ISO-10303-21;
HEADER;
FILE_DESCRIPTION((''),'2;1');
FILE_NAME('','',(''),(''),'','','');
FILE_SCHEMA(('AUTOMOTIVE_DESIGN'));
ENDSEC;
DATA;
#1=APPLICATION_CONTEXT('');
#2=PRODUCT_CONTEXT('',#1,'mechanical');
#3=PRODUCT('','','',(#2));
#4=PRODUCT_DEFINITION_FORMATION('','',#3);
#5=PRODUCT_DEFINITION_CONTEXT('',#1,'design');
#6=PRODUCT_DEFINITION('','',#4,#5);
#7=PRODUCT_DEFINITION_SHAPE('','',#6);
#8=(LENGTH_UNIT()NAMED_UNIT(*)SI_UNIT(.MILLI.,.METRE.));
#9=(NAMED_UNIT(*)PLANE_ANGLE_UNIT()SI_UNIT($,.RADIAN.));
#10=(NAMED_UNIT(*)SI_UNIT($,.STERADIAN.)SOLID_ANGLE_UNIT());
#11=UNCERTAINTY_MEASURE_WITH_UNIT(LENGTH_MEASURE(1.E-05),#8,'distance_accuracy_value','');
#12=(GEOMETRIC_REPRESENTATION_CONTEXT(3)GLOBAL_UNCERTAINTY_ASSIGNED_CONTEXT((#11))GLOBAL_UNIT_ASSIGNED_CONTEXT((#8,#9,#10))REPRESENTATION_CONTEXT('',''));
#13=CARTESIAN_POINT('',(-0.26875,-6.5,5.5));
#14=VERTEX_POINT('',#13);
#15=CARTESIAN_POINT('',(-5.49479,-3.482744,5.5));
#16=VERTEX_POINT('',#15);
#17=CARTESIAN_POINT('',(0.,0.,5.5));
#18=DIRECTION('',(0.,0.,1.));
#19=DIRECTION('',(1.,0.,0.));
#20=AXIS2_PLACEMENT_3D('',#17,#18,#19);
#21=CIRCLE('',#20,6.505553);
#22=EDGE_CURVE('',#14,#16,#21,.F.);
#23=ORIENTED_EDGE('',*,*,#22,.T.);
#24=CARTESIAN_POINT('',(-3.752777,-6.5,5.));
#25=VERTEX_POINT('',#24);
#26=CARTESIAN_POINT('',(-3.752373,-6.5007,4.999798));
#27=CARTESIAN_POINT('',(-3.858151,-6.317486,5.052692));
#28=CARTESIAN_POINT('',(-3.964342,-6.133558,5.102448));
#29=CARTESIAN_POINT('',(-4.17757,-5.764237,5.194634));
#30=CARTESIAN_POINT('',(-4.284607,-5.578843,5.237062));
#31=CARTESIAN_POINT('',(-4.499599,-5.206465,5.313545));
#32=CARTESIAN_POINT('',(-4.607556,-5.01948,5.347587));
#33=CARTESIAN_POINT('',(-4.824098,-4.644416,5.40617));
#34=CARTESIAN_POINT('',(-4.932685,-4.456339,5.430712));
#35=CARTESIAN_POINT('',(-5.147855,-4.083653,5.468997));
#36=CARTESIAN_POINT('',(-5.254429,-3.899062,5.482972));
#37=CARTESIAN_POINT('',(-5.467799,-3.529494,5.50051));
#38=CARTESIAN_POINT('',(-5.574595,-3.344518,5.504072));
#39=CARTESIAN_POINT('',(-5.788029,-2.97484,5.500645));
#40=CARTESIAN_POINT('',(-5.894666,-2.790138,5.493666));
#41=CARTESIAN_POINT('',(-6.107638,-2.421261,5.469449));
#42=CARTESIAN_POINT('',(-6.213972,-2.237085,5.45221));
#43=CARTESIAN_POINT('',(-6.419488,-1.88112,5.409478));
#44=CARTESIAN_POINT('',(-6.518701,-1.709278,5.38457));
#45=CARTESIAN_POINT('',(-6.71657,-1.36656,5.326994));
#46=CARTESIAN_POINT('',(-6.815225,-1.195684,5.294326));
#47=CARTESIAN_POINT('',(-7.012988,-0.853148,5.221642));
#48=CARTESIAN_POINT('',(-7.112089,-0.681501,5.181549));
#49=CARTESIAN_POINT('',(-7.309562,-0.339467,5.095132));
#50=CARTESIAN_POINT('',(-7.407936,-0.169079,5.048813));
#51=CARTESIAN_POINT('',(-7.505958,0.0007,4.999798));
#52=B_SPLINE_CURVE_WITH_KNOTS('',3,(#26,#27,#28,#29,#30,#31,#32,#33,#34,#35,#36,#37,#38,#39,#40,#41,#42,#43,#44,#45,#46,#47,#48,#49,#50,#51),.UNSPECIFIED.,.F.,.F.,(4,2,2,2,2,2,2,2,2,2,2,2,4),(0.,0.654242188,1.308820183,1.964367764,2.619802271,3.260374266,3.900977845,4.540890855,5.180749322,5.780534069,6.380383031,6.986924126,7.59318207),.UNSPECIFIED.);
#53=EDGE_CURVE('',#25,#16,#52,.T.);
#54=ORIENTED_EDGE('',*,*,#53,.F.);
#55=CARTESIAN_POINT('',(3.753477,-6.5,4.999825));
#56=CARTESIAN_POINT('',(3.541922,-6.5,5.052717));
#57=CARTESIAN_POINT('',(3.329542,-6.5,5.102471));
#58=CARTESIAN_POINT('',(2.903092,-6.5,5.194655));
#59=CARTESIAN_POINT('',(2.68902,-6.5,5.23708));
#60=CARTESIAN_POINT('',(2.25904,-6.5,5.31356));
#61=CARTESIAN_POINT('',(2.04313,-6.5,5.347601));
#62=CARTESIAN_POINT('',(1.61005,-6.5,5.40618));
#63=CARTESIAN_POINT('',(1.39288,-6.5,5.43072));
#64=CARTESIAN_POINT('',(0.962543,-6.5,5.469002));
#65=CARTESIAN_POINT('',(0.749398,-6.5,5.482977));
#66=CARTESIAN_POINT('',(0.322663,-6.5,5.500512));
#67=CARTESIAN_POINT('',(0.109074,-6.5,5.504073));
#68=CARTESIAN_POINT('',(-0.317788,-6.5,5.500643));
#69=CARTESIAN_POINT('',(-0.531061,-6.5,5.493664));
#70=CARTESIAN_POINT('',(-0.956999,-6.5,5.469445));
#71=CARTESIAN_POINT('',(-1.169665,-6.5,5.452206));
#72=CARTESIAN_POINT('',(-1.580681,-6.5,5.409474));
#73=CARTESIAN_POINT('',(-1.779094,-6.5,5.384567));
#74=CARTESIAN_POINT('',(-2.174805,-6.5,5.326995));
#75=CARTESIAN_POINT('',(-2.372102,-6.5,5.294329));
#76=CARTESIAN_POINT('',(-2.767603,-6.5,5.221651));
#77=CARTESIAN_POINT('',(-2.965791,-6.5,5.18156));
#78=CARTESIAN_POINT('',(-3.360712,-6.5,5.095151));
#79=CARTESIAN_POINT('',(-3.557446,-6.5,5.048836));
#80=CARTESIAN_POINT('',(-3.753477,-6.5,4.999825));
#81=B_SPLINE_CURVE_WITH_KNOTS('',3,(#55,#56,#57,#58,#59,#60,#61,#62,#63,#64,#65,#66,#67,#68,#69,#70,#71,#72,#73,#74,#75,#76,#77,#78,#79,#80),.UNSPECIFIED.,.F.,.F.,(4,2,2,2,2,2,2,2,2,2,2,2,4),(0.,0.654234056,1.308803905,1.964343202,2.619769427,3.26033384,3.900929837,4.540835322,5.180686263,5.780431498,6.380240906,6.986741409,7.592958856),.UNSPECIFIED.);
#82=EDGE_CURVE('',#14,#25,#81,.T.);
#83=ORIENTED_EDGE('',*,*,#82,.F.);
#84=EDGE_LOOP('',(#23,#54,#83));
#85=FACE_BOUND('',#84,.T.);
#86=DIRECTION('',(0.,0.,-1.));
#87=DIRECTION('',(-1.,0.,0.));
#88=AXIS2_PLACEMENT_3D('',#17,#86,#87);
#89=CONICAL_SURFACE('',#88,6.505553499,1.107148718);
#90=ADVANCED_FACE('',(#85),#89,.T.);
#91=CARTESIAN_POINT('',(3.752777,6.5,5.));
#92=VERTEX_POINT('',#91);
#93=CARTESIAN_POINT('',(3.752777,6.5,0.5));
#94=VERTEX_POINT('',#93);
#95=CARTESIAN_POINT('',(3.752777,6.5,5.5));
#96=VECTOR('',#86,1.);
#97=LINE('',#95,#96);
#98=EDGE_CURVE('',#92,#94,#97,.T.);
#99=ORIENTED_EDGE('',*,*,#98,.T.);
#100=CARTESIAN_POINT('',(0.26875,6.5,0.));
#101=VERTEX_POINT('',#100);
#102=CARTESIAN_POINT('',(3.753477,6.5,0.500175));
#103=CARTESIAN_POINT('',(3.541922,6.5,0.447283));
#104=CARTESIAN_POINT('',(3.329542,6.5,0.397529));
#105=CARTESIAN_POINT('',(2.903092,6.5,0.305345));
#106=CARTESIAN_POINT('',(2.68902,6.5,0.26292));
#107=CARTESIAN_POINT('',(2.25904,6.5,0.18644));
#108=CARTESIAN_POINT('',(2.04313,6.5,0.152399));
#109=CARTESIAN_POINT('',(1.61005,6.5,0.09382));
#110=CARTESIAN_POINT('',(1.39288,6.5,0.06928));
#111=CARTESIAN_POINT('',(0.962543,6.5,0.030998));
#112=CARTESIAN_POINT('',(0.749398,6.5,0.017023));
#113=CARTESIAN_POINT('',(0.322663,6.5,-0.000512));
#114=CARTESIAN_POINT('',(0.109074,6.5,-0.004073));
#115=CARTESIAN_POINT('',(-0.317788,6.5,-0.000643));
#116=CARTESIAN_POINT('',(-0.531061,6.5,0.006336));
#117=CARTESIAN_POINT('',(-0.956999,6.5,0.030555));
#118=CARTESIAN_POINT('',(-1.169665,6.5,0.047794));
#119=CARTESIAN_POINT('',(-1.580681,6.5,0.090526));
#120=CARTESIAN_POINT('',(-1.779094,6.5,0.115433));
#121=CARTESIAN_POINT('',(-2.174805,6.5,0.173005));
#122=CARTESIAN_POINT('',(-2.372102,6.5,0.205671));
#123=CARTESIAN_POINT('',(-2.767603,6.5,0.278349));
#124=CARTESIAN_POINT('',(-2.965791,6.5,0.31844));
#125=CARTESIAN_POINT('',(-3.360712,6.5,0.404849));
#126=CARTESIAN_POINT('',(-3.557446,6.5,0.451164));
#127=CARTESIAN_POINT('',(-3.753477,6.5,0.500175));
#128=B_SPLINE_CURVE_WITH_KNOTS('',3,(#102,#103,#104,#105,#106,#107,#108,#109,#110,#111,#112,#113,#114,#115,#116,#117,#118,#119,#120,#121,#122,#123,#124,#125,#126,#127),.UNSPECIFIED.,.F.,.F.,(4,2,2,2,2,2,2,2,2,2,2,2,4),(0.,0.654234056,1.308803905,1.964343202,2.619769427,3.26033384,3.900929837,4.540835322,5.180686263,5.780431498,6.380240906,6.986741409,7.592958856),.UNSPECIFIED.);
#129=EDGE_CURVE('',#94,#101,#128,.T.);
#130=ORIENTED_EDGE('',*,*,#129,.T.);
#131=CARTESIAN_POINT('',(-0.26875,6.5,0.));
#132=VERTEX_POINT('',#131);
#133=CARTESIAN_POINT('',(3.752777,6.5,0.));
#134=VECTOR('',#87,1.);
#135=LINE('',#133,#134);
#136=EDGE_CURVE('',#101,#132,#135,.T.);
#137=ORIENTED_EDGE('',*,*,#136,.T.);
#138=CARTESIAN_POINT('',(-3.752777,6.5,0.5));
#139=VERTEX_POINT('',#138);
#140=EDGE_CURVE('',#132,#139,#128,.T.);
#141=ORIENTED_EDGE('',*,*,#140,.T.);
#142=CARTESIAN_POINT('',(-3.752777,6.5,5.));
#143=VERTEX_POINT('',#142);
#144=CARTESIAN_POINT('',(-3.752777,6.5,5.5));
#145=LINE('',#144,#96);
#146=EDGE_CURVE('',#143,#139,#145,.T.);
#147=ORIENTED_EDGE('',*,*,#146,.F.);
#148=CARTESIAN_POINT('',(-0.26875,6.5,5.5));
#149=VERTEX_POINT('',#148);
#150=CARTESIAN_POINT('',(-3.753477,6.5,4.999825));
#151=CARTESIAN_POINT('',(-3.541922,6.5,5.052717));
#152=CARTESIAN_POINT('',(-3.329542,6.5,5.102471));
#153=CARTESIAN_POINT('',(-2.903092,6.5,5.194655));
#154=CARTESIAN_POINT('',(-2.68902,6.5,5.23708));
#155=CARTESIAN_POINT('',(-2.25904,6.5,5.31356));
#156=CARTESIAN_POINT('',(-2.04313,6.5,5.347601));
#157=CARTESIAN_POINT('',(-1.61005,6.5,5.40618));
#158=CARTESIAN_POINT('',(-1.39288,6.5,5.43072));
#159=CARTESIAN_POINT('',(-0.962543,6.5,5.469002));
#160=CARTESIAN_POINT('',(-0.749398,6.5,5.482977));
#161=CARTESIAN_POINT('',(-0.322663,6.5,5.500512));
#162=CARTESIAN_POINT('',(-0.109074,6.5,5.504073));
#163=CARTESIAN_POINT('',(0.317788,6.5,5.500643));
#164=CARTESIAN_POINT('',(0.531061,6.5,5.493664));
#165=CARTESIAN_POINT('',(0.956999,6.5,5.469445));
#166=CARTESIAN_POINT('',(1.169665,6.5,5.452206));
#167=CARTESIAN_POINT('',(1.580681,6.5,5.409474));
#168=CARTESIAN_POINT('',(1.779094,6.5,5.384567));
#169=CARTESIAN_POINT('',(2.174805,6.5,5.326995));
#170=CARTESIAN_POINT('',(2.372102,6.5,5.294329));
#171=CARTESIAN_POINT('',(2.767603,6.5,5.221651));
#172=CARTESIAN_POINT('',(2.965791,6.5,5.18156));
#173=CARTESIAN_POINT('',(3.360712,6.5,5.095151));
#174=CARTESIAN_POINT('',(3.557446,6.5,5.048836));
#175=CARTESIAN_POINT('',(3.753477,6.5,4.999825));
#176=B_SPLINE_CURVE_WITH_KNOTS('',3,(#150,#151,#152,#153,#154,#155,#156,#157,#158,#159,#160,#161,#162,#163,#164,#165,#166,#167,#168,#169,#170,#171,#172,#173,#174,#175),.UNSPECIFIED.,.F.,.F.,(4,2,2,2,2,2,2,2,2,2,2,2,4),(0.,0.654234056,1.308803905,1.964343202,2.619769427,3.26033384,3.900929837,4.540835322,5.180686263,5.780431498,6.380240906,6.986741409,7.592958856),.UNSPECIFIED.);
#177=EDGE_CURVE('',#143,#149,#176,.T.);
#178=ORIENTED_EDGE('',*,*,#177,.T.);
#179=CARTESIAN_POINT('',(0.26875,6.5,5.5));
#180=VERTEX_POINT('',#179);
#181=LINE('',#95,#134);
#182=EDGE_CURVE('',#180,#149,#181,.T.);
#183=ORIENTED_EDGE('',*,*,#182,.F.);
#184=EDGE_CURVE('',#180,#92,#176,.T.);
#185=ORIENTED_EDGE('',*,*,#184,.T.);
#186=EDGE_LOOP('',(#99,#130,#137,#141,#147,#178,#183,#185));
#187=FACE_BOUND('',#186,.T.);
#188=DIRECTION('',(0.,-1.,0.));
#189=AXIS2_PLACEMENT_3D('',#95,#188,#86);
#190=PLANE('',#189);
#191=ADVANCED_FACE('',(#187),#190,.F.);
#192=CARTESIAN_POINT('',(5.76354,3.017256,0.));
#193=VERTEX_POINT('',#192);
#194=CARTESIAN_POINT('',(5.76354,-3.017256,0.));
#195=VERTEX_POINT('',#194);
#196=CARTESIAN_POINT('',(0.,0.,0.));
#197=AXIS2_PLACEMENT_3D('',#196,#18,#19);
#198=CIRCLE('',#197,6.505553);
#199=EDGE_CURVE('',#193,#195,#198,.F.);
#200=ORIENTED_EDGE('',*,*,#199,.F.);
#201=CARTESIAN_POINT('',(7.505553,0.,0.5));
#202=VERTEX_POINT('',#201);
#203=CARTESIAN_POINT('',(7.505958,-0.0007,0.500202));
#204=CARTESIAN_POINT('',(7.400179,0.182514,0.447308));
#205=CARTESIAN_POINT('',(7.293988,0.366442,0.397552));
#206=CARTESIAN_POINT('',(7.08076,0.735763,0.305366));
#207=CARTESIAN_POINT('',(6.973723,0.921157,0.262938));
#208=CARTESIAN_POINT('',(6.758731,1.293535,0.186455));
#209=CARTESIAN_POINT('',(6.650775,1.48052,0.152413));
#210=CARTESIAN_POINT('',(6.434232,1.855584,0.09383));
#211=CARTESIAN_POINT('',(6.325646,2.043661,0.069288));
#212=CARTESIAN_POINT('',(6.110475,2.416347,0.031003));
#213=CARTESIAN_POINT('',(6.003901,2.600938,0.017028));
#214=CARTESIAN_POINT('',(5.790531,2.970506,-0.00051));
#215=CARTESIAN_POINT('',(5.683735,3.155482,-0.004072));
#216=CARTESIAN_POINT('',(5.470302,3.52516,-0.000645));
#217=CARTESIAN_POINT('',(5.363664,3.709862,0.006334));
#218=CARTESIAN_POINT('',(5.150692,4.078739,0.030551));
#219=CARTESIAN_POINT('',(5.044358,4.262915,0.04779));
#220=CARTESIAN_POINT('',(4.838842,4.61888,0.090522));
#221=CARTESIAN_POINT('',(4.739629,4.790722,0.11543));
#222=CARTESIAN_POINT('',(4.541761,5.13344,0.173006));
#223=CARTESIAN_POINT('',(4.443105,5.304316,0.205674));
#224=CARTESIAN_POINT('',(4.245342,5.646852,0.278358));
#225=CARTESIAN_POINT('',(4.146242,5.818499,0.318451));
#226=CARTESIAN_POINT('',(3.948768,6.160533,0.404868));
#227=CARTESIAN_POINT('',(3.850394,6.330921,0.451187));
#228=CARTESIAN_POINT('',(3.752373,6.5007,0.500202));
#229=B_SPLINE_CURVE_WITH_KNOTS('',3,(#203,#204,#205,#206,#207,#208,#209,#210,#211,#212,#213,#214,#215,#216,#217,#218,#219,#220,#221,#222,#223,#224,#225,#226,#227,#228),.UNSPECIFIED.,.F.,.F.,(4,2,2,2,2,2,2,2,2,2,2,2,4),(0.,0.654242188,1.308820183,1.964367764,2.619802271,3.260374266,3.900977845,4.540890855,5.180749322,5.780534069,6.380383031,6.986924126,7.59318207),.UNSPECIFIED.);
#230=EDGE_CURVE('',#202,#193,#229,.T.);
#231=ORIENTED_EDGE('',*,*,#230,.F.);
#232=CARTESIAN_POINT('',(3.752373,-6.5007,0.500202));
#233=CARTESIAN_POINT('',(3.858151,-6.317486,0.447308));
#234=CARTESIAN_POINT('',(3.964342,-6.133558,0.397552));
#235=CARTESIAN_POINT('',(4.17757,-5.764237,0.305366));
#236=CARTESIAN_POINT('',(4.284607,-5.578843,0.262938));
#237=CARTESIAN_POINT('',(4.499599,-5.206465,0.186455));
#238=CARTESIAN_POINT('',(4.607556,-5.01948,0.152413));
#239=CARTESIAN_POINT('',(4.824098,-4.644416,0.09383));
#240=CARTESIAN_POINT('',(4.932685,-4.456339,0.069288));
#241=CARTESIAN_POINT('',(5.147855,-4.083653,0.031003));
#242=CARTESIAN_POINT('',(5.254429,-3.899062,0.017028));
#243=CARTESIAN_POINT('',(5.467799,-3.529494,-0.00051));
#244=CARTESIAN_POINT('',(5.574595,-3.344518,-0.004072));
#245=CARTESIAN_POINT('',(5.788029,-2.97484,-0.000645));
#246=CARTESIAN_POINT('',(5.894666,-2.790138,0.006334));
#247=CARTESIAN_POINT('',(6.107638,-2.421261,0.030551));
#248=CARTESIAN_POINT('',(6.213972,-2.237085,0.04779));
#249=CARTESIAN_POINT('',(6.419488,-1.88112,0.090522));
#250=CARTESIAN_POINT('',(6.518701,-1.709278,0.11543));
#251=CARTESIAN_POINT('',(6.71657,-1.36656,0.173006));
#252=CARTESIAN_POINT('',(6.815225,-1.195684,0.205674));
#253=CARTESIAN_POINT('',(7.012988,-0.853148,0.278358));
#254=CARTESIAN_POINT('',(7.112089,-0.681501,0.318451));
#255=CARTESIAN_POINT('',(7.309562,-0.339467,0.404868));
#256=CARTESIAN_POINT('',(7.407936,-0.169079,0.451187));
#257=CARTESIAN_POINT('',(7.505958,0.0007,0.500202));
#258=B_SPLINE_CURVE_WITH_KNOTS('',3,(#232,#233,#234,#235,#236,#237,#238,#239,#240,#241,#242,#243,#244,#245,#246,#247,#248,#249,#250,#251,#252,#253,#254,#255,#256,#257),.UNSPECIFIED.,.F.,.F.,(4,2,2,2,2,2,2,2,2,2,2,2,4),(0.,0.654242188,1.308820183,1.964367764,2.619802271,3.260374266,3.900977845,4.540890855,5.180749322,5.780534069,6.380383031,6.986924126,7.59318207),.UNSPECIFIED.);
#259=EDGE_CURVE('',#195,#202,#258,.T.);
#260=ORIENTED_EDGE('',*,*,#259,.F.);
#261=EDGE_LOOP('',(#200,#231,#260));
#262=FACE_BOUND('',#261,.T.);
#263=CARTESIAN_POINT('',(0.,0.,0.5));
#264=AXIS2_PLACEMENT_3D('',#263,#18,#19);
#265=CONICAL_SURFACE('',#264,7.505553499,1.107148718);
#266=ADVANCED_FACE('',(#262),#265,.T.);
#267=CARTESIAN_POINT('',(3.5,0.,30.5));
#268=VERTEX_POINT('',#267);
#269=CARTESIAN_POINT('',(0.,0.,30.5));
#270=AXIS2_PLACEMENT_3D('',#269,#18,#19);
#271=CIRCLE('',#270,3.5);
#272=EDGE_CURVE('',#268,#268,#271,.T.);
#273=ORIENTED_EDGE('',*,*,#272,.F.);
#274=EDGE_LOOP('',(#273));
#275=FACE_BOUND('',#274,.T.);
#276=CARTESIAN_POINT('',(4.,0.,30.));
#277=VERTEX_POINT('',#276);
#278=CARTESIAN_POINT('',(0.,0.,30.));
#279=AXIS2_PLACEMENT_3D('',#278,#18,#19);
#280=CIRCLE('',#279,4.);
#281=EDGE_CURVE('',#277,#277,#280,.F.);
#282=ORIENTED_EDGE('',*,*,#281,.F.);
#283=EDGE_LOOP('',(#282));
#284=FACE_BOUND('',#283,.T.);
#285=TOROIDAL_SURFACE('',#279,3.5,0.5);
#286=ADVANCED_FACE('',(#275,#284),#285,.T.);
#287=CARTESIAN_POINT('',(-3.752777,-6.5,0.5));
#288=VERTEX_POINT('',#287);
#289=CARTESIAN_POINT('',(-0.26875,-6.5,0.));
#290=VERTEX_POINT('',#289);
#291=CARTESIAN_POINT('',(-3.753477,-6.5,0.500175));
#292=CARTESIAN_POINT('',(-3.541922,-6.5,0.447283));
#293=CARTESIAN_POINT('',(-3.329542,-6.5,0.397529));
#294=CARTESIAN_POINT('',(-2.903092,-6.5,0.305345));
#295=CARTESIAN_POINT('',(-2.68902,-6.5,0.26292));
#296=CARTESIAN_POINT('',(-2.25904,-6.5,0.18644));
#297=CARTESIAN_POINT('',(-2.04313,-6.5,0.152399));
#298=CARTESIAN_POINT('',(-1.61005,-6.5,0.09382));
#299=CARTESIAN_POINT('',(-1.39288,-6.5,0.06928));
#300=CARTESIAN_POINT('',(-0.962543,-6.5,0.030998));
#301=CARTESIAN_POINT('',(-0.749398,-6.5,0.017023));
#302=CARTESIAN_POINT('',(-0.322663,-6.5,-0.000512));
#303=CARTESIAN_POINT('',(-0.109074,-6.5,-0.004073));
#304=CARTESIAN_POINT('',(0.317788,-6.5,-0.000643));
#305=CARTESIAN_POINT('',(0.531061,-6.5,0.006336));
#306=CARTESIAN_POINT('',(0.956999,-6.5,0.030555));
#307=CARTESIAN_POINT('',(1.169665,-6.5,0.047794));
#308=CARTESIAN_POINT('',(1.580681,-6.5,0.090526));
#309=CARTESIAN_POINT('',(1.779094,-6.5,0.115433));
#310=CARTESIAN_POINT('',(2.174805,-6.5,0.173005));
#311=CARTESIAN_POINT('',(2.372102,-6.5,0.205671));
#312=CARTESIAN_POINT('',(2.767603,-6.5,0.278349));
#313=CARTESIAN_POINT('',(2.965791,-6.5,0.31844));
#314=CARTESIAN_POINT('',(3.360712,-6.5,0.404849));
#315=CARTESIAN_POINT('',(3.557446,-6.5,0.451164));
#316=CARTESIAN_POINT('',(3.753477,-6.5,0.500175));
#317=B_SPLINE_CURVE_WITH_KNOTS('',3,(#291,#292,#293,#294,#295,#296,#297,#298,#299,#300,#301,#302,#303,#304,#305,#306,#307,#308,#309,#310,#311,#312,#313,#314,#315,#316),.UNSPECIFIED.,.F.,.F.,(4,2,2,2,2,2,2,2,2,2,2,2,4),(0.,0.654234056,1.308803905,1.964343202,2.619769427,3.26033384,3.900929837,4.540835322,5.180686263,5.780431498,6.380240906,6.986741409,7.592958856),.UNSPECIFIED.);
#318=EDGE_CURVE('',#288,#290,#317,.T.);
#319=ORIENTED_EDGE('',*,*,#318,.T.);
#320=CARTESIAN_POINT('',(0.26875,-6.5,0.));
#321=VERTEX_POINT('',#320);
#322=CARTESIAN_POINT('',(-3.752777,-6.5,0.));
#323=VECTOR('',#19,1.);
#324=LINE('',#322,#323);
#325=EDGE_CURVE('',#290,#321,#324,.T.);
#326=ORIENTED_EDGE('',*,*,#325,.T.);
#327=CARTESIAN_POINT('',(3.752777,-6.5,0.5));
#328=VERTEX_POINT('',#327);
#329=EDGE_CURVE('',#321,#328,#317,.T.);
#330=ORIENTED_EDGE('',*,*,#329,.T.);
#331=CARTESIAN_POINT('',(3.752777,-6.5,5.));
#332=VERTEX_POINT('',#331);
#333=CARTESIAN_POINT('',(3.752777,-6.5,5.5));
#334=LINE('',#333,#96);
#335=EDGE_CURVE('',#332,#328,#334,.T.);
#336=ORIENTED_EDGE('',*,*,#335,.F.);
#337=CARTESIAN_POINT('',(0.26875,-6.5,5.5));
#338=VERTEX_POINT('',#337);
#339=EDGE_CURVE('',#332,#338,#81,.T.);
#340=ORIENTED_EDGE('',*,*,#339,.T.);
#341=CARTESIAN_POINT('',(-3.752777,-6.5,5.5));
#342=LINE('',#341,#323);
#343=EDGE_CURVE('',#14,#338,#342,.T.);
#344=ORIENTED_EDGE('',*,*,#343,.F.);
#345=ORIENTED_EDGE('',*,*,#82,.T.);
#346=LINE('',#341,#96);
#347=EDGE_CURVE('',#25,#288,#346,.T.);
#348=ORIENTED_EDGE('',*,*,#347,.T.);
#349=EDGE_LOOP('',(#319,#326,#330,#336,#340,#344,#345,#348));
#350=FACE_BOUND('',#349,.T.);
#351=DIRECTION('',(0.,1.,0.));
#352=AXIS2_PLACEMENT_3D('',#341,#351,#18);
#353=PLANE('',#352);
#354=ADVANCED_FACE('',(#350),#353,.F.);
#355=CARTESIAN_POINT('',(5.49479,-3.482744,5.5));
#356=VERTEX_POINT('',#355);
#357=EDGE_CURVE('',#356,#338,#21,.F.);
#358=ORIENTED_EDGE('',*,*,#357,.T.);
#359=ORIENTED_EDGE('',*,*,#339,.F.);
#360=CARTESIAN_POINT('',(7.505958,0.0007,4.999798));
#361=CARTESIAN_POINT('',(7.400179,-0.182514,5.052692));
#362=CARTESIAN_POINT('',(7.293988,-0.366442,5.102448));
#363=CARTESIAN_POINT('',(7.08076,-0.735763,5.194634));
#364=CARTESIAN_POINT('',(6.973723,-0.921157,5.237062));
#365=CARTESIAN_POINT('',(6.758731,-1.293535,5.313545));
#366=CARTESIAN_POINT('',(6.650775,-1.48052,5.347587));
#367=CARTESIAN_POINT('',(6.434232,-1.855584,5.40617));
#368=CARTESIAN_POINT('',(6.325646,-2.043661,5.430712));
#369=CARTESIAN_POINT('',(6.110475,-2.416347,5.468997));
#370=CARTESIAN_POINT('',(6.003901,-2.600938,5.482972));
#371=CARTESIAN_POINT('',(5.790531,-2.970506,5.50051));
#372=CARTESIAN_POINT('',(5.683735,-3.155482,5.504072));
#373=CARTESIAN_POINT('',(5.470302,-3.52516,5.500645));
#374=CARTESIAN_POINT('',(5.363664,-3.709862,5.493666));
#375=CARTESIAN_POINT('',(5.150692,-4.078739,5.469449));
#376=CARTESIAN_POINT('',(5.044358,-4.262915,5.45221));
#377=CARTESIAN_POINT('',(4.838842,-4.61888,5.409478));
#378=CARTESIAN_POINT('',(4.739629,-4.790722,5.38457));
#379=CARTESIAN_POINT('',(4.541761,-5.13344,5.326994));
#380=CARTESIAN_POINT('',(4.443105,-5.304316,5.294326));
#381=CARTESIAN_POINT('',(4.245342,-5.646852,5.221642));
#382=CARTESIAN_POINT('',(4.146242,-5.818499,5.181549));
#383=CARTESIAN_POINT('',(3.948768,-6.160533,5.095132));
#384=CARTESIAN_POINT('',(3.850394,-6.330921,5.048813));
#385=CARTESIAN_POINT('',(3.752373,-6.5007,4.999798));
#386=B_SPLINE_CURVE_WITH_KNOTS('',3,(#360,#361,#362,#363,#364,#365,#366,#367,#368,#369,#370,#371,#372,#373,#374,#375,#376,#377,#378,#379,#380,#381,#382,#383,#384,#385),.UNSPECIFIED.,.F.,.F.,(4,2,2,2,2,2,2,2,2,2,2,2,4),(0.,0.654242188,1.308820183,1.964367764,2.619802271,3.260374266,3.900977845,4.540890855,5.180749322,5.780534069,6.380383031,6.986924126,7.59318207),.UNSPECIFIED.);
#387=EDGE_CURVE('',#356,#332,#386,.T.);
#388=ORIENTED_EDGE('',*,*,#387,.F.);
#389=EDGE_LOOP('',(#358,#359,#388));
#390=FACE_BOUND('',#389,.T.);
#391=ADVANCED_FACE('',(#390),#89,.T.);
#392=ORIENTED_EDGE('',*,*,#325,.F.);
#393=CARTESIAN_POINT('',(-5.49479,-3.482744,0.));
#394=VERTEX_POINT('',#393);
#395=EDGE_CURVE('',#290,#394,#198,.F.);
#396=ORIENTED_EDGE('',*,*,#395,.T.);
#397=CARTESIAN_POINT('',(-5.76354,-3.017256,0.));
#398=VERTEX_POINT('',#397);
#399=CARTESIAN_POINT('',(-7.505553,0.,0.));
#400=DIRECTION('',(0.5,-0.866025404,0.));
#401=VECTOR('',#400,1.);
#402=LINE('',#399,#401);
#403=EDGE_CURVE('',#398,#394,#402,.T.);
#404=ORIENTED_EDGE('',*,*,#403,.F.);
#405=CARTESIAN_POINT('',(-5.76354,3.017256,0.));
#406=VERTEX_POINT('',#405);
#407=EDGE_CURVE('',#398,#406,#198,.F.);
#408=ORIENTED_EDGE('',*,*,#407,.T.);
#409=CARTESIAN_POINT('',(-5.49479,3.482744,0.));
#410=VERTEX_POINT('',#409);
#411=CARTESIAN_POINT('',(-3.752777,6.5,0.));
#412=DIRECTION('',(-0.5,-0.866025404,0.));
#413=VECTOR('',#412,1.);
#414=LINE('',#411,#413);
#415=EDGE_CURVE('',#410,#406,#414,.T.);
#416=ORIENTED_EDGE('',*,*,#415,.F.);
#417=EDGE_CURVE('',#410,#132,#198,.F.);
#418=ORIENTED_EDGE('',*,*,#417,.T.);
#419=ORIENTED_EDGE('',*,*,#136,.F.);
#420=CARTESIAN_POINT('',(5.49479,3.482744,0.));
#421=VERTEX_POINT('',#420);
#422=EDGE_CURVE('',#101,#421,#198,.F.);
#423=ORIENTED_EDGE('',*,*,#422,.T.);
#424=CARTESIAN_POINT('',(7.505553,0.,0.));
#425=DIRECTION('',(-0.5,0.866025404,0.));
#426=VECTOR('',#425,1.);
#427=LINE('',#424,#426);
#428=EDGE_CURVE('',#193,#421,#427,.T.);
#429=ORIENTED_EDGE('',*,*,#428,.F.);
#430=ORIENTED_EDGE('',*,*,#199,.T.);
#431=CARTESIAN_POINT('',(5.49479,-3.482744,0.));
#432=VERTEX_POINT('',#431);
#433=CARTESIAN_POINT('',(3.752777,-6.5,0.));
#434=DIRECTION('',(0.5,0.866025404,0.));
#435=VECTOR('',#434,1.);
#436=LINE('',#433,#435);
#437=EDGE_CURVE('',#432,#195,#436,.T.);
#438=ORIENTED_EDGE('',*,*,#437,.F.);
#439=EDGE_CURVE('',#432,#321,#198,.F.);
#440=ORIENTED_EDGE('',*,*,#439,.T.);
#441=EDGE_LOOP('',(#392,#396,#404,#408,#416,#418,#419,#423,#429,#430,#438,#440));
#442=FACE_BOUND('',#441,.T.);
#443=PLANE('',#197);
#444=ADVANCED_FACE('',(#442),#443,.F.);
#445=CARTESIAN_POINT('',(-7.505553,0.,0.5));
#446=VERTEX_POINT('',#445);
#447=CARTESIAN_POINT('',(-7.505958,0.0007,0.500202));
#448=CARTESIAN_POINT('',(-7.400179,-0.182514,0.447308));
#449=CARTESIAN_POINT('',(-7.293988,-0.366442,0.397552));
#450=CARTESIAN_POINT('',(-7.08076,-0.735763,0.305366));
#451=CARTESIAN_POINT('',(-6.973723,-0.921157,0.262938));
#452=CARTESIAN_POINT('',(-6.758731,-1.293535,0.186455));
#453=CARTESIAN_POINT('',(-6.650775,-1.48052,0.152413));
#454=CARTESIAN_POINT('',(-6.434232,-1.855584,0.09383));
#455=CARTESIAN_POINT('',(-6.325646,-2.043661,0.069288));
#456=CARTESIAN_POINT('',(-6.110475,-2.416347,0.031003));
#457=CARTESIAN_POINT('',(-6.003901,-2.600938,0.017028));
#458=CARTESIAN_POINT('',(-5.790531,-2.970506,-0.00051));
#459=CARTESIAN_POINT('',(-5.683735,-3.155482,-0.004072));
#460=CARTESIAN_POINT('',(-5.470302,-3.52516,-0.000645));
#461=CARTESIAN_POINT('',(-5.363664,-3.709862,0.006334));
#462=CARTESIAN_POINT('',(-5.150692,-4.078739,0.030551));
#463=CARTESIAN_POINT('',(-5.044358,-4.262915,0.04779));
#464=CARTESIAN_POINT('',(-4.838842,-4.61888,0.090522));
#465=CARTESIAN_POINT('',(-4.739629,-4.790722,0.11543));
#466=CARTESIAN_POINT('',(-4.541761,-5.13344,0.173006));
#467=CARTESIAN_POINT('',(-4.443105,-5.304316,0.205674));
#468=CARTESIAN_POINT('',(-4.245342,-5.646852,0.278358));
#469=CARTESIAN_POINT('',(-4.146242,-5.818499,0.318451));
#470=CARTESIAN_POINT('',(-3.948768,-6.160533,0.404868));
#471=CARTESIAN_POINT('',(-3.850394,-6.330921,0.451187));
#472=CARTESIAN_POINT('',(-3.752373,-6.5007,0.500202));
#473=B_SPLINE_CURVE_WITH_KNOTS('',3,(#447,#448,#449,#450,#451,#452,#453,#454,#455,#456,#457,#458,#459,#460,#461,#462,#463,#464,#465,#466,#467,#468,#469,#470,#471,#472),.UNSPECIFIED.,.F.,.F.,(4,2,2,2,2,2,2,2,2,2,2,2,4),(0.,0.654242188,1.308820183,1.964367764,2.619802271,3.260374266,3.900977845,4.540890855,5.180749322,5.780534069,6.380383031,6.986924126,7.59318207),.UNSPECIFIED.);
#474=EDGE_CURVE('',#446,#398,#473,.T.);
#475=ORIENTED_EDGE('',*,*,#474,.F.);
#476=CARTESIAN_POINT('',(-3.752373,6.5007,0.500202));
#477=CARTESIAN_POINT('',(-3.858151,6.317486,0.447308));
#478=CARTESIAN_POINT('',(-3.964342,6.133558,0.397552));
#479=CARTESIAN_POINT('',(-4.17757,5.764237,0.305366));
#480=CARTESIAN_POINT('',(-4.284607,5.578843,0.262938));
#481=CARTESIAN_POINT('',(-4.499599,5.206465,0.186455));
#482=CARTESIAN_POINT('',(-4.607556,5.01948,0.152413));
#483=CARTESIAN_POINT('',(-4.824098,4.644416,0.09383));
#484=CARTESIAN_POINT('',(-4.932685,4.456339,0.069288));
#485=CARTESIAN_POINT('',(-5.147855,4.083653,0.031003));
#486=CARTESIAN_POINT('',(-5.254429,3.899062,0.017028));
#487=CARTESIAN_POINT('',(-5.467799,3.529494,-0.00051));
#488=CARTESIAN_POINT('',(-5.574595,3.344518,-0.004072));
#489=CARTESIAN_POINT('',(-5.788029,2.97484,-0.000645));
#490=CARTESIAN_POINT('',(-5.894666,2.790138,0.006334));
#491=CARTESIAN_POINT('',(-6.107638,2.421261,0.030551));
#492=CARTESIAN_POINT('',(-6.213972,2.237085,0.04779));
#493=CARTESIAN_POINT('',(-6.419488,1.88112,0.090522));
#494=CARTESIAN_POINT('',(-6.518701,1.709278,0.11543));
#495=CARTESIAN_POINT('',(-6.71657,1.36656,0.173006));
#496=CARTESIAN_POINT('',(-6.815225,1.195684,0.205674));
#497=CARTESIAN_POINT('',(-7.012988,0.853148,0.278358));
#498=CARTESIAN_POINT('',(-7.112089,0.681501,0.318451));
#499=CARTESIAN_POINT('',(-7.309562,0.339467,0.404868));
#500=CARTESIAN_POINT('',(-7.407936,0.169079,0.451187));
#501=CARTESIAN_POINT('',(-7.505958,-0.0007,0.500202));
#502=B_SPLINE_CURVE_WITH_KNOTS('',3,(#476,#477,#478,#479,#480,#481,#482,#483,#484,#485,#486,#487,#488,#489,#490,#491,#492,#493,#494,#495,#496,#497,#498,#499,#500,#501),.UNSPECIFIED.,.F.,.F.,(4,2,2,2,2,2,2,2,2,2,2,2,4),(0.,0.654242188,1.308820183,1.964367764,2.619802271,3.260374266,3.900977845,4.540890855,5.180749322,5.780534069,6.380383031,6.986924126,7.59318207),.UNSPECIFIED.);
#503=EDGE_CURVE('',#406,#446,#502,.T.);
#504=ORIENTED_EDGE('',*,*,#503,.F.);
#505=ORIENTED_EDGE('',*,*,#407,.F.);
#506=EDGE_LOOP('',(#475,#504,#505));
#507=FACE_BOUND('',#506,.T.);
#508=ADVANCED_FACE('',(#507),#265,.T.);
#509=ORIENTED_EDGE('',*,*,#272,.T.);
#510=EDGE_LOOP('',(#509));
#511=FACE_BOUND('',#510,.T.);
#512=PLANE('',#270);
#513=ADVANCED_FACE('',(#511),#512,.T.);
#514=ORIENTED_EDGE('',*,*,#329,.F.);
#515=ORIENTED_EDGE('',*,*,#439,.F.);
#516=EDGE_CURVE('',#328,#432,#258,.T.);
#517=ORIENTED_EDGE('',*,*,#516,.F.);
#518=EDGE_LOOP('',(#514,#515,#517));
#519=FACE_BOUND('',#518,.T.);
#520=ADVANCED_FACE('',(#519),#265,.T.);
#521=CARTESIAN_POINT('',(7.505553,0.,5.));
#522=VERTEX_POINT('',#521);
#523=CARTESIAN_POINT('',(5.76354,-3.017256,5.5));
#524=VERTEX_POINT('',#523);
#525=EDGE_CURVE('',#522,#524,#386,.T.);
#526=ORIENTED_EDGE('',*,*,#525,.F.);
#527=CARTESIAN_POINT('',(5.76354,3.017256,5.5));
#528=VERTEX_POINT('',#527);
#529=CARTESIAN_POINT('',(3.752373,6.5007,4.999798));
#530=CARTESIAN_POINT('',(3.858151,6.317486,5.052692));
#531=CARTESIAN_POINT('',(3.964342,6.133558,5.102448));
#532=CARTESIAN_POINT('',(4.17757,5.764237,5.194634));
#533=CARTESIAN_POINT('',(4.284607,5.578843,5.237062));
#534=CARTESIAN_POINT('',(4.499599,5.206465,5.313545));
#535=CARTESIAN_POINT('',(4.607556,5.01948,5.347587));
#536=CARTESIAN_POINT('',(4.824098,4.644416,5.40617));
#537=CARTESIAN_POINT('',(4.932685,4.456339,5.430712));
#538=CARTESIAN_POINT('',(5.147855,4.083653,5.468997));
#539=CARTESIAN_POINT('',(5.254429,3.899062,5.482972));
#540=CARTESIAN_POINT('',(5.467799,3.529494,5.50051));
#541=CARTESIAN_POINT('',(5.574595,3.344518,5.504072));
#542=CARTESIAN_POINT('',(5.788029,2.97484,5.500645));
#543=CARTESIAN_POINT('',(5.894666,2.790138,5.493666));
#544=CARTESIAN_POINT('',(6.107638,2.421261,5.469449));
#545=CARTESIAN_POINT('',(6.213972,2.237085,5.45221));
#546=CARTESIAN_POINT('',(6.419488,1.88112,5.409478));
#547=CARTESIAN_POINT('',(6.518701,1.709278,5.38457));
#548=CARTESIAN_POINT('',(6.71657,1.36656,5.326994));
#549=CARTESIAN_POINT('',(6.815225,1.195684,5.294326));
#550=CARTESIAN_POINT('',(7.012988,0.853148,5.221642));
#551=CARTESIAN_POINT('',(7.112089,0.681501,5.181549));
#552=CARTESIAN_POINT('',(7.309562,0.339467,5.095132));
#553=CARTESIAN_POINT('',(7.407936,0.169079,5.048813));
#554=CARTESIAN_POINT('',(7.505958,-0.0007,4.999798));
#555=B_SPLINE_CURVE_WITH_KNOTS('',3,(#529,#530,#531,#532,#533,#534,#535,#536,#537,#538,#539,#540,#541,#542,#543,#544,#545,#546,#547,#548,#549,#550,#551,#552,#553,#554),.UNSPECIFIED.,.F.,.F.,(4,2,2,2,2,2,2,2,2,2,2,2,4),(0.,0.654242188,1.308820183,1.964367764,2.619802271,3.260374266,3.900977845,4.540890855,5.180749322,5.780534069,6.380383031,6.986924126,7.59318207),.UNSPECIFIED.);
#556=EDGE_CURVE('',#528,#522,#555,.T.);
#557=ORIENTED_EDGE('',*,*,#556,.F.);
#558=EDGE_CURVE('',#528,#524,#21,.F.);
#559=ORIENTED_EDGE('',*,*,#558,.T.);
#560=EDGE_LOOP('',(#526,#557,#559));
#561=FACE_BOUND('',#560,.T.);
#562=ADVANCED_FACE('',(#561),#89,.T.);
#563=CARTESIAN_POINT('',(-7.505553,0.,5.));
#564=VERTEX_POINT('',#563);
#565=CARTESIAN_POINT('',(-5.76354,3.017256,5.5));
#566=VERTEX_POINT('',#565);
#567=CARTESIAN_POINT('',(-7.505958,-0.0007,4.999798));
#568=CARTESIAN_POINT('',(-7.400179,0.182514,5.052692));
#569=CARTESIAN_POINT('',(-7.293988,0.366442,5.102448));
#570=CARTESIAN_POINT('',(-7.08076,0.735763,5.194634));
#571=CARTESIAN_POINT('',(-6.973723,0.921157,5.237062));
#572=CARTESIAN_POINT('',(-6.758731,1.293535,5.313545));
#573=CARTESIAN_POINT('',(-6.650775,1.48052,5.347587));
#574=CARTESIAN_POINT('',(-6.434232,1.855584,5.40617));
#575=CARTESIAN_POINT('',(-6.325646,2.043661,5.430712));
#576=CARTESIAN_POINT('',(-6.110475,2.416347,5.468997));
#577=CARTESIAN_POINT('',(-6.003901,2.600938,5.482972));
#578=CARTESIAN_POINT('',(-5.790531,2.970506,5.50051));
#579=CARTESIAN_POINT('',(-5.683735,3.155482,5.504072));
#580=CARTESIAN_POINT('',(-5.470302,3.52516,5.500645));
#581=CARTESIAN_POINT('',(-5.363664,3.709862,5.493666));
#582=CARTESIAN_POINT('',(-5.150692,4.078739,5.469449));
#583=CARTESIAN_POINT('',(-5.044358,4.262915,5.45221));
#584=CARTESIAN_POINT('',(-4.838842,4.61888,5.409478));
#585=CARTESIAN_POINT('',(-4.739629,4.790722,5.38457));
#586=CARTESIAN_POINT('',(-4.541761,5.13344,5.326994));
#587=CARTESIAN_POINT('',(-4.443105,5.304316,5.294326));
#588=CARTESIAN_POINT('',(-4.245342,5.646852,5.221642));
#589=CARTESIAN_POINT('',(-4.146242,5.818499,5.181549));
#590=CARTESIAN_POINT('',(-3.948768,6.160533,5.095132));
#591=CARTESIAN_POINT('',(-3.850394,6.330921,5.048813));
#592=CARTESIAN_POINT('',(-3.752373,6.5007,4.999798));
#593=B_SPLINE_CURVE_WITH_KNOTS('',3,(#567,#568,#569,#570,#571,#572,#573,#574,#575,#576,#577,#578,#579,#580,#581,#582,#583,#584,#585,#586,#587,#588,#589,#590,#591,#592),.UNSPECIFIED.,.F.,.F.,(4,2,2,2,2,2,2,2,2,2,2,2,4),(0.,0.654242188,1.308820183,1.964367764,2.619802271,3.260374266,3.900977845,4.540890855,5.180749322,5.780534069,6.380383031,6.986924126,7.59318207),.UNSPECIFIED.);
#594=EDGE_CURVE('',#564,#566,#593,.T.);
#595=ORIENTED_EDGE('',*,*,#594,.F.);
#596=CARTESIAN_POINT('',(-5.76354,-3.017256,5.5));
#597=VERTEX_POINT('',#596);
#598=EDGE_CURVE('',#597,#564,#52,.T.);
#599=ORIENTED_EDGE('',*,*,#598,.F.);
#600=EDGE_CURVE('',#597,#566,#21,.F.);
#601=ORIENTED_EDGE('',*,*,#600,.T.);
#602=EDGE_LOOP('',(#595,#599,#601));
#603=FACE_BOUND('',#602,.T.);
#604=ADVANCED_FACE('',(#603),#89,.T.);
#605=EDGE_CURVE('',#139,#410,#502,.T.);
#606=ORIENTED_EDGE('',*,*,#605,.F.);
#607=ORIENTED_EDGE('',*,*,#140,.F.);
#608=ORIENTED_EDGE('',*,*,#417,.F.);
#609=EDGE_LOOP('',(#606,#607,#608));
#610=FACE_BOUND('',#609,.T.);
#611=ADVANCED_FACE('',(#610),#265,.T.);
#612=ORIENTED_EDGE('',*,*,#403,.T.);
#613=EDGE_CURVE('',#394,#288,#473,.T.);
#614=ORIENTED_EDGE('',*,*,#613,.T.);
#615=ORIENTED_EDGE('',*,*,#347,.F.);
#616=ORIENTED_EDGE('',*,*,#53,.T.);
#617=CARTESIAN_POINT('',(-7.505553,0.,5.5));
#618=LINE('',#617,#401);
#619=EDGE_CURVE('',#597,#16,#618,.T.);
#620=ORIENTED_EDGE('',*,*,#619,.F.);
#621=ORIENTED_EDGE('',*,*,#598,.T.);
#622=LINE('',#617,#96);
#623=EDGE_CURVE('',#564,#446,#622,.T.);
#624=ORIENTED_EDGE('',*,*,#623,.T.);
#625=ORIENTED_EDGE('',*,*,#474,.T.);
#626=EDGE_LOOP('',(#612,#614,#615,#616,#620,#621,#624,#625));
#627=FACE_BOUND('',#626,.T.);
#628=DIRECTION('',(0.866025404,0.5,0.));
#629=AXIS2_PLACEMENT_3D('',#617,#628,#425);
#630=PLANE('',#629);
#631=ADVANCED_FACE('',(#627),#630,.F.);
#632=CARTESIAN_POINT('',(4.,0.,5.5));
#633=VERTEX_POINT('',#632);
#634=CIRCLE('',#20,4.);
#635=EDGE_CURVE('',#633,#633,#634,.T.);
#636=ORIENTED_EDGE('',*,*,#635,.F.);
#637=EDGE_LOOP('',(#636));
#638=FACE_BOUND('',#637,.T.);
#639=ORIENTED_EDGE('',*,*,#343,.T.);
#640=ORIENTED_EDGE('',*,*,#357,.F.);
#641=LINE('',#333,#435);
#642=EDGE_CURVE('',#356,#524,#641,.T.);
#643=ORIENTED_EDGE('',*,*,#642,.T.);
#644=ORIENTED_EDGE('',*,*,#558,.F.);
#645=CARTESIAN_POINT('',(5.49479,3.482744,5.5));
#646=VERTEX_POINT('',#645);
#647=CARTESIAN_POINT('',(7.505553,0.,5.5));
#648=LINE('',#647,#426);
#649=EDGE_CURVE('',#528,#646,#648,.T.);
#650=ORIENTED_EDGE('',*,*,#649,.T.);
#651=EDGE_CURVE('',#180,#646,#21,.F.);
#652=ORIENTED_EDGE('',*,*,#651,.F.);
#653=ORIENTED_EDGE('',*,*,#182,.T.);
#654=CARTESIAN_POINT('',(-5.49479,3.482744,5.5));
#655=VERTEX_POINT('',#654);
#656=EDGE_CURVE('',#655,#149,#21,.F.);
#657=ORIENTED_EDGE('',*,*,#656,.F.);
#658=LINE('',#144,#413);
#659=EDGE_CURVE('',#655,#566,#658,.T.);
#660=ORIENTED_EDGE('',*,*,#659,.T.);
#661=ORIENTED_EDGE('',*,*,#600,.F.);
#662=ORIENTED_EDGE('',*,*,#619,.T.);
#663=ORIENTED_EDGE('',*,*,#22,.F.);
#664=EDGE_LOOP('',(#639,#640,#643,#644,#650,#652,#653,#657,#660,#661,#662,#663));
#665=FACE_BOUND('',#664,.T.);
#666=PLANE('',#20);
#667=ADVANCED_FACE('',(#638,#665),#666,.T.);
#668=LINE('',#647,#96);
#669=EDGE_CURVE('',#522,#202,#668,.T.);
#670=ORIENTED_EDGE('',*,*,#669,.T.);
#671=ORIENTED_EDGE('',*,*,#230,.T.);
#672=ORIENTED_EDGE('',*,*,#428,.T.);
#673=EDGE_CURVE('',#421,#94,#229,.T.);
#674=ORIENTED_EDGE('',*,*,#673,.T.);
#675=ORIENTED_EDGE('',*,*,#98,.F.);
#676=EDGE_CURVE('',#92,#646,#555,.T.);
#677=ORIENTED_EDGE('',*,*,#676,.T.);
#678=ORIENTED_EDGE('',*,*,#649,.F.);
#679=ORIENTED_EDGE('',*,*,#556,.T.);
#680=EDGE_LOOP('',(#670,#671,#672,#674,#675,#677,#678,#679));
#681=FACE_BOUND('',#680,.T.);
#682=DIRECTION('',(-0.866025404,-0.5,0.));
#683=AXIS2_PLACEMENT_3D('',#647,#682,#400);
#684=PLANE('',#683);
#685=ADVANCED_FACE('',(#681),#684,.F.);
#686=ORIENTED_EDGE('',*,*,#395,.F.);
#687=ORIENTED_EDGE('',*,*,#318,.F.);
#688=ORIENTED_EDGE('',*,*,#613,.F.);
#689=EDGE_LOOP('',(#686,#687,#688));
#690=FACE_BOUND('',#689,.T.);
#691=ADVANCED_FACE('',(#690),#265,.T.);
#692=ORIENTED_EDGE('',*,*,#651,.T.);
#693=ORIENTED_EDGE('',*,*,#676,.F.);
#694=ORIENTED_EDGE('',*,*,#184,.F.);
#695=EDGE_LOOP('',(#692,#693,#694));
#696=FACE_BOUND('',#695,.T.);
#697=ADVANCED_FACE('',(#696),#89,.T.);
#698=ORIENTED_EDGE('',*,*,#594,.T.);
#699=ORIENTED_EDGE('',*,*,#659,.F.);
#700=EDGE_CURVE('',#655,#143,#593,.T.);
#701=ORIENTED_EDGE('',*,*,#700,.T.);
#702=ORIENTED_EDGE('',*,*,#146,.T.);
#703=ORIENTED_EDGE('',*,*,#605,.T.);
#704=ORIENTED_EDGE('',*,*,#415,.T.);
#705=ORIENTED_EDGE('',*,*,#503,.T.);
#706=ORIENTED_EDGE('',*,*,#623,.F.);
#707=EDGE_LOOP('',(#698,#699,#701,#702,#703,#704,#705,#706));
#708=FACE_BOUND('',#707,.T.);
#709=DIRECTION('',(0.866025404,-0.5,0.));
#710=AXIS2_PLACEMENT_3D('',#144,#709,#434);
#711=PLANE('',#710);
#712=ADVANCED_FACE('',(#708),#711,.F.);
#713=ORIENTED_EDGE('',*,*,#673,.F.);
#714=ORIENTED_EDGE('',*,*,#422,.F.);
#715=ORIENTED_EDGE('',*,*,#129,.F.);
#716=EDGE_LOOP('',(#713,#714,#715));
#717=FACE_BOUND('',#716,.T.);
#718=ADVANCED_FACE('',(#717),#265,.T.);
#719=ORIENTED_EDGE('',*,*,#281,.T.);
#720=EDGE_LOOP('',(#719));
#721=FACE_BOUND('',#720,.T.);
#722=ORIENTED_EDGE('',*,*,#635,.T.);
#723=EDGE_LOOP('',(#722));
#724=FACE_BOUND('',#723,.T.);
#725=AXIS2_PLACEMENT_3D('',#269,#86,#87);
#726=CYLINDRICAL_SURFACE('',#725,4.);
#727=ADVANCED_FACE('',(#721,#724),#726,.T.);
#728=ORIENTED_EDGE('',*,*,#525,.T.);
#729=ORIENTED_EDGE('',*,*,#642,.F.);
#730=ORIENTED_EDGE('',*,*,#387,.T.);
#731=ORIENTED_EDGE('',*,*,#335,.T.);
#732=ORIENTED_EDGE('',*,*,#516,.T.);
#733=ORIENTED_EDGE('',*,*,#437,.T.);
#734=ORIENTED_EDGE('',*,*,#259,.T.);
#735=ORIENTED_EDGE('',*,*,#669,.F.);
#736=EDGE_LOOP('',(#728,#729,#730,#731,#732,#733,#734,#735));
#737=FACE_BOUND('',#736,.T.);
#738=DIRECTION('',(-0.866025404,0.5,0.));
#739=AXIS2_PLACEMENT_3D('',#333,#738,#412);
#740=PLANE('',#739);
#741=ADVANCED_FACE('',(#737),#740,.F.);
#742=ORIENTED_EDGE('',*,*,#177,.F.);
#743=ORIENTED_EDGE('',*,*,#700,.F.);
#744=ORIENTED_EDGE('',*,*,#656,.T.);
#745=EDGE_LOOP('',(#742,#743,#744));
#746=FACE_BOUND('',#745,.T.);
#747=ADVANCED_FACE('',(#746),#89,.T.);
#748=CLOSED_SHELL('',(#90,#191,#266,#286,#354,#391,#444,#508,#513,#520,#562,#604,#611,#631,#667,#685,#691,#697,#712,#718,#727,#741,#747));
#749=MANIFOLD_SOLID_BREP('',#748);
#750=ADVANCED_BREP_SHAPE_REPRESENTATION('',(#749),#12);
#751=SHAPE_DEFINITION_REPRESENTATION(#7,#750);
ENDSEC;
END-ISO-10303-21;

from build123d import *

# Parameters (mm, degrees)
Y_KSEKLIK_EKSTR_ZYON1_DEPTH = 5.5
IZIM2_R                     = 4
Y_KSEKLIK_EKSTR_ZYON2_DEPTH = 25
RADYUS1_R                   = 0.5


with BuildPart() as part:
    # Çizim1 → Yükseklik-Ekstrüzyon1 (new body)
    with BuildSketch(Plane.XY):
        Polygon((7.505553499, 0), (3.75277675, 6.5), (-3.75277675, 6.5), (-7.505553499, 0), (-3.75277675, -6.5), (3.75277675, -6.5), align=None)
    extrude(amount=Y_KSEKLIK_EKSTR_ZYON1_DEPTH)

    # Çizim2 → Yükseklik-Ekstrüzyon2 (add)
    with BuildSketch(Plane.XY.offset(5.5)):
        Circle(IZIM2_R)
    extrude(amount=Y_KSEKLIK_EKSTR_ZYON2_DEPTH)

    # Çizim3 → Kes-Döndür1 (revolve, cut)
    with BuildSketch(Plane(origin=(0, 0, 0), x_dir=(1, 0, 0), z_dir=(0, 1, 0))):
        Polygon((-7.505553499, 0), (-6.505553499, 0), (-7.505553499, -0.5), align=None)
        Polygon((-7.505553499, -5.5), (-7.505553499, -5), (-6.505553499, -5.5), align=None)
    revolve(axis=Axis((0, 0, 0), (0, 0, 1)), mode=Mode.SUBTRACT)

    # Radyus1
    radyus1_edges = [part.edges().sort_by_distance(p)[0] for p in [
        (-4, 0, 30.5),
    ]]
    fillet(radyus1_edges, radius=RADYUS1_R)


solid = part.part
